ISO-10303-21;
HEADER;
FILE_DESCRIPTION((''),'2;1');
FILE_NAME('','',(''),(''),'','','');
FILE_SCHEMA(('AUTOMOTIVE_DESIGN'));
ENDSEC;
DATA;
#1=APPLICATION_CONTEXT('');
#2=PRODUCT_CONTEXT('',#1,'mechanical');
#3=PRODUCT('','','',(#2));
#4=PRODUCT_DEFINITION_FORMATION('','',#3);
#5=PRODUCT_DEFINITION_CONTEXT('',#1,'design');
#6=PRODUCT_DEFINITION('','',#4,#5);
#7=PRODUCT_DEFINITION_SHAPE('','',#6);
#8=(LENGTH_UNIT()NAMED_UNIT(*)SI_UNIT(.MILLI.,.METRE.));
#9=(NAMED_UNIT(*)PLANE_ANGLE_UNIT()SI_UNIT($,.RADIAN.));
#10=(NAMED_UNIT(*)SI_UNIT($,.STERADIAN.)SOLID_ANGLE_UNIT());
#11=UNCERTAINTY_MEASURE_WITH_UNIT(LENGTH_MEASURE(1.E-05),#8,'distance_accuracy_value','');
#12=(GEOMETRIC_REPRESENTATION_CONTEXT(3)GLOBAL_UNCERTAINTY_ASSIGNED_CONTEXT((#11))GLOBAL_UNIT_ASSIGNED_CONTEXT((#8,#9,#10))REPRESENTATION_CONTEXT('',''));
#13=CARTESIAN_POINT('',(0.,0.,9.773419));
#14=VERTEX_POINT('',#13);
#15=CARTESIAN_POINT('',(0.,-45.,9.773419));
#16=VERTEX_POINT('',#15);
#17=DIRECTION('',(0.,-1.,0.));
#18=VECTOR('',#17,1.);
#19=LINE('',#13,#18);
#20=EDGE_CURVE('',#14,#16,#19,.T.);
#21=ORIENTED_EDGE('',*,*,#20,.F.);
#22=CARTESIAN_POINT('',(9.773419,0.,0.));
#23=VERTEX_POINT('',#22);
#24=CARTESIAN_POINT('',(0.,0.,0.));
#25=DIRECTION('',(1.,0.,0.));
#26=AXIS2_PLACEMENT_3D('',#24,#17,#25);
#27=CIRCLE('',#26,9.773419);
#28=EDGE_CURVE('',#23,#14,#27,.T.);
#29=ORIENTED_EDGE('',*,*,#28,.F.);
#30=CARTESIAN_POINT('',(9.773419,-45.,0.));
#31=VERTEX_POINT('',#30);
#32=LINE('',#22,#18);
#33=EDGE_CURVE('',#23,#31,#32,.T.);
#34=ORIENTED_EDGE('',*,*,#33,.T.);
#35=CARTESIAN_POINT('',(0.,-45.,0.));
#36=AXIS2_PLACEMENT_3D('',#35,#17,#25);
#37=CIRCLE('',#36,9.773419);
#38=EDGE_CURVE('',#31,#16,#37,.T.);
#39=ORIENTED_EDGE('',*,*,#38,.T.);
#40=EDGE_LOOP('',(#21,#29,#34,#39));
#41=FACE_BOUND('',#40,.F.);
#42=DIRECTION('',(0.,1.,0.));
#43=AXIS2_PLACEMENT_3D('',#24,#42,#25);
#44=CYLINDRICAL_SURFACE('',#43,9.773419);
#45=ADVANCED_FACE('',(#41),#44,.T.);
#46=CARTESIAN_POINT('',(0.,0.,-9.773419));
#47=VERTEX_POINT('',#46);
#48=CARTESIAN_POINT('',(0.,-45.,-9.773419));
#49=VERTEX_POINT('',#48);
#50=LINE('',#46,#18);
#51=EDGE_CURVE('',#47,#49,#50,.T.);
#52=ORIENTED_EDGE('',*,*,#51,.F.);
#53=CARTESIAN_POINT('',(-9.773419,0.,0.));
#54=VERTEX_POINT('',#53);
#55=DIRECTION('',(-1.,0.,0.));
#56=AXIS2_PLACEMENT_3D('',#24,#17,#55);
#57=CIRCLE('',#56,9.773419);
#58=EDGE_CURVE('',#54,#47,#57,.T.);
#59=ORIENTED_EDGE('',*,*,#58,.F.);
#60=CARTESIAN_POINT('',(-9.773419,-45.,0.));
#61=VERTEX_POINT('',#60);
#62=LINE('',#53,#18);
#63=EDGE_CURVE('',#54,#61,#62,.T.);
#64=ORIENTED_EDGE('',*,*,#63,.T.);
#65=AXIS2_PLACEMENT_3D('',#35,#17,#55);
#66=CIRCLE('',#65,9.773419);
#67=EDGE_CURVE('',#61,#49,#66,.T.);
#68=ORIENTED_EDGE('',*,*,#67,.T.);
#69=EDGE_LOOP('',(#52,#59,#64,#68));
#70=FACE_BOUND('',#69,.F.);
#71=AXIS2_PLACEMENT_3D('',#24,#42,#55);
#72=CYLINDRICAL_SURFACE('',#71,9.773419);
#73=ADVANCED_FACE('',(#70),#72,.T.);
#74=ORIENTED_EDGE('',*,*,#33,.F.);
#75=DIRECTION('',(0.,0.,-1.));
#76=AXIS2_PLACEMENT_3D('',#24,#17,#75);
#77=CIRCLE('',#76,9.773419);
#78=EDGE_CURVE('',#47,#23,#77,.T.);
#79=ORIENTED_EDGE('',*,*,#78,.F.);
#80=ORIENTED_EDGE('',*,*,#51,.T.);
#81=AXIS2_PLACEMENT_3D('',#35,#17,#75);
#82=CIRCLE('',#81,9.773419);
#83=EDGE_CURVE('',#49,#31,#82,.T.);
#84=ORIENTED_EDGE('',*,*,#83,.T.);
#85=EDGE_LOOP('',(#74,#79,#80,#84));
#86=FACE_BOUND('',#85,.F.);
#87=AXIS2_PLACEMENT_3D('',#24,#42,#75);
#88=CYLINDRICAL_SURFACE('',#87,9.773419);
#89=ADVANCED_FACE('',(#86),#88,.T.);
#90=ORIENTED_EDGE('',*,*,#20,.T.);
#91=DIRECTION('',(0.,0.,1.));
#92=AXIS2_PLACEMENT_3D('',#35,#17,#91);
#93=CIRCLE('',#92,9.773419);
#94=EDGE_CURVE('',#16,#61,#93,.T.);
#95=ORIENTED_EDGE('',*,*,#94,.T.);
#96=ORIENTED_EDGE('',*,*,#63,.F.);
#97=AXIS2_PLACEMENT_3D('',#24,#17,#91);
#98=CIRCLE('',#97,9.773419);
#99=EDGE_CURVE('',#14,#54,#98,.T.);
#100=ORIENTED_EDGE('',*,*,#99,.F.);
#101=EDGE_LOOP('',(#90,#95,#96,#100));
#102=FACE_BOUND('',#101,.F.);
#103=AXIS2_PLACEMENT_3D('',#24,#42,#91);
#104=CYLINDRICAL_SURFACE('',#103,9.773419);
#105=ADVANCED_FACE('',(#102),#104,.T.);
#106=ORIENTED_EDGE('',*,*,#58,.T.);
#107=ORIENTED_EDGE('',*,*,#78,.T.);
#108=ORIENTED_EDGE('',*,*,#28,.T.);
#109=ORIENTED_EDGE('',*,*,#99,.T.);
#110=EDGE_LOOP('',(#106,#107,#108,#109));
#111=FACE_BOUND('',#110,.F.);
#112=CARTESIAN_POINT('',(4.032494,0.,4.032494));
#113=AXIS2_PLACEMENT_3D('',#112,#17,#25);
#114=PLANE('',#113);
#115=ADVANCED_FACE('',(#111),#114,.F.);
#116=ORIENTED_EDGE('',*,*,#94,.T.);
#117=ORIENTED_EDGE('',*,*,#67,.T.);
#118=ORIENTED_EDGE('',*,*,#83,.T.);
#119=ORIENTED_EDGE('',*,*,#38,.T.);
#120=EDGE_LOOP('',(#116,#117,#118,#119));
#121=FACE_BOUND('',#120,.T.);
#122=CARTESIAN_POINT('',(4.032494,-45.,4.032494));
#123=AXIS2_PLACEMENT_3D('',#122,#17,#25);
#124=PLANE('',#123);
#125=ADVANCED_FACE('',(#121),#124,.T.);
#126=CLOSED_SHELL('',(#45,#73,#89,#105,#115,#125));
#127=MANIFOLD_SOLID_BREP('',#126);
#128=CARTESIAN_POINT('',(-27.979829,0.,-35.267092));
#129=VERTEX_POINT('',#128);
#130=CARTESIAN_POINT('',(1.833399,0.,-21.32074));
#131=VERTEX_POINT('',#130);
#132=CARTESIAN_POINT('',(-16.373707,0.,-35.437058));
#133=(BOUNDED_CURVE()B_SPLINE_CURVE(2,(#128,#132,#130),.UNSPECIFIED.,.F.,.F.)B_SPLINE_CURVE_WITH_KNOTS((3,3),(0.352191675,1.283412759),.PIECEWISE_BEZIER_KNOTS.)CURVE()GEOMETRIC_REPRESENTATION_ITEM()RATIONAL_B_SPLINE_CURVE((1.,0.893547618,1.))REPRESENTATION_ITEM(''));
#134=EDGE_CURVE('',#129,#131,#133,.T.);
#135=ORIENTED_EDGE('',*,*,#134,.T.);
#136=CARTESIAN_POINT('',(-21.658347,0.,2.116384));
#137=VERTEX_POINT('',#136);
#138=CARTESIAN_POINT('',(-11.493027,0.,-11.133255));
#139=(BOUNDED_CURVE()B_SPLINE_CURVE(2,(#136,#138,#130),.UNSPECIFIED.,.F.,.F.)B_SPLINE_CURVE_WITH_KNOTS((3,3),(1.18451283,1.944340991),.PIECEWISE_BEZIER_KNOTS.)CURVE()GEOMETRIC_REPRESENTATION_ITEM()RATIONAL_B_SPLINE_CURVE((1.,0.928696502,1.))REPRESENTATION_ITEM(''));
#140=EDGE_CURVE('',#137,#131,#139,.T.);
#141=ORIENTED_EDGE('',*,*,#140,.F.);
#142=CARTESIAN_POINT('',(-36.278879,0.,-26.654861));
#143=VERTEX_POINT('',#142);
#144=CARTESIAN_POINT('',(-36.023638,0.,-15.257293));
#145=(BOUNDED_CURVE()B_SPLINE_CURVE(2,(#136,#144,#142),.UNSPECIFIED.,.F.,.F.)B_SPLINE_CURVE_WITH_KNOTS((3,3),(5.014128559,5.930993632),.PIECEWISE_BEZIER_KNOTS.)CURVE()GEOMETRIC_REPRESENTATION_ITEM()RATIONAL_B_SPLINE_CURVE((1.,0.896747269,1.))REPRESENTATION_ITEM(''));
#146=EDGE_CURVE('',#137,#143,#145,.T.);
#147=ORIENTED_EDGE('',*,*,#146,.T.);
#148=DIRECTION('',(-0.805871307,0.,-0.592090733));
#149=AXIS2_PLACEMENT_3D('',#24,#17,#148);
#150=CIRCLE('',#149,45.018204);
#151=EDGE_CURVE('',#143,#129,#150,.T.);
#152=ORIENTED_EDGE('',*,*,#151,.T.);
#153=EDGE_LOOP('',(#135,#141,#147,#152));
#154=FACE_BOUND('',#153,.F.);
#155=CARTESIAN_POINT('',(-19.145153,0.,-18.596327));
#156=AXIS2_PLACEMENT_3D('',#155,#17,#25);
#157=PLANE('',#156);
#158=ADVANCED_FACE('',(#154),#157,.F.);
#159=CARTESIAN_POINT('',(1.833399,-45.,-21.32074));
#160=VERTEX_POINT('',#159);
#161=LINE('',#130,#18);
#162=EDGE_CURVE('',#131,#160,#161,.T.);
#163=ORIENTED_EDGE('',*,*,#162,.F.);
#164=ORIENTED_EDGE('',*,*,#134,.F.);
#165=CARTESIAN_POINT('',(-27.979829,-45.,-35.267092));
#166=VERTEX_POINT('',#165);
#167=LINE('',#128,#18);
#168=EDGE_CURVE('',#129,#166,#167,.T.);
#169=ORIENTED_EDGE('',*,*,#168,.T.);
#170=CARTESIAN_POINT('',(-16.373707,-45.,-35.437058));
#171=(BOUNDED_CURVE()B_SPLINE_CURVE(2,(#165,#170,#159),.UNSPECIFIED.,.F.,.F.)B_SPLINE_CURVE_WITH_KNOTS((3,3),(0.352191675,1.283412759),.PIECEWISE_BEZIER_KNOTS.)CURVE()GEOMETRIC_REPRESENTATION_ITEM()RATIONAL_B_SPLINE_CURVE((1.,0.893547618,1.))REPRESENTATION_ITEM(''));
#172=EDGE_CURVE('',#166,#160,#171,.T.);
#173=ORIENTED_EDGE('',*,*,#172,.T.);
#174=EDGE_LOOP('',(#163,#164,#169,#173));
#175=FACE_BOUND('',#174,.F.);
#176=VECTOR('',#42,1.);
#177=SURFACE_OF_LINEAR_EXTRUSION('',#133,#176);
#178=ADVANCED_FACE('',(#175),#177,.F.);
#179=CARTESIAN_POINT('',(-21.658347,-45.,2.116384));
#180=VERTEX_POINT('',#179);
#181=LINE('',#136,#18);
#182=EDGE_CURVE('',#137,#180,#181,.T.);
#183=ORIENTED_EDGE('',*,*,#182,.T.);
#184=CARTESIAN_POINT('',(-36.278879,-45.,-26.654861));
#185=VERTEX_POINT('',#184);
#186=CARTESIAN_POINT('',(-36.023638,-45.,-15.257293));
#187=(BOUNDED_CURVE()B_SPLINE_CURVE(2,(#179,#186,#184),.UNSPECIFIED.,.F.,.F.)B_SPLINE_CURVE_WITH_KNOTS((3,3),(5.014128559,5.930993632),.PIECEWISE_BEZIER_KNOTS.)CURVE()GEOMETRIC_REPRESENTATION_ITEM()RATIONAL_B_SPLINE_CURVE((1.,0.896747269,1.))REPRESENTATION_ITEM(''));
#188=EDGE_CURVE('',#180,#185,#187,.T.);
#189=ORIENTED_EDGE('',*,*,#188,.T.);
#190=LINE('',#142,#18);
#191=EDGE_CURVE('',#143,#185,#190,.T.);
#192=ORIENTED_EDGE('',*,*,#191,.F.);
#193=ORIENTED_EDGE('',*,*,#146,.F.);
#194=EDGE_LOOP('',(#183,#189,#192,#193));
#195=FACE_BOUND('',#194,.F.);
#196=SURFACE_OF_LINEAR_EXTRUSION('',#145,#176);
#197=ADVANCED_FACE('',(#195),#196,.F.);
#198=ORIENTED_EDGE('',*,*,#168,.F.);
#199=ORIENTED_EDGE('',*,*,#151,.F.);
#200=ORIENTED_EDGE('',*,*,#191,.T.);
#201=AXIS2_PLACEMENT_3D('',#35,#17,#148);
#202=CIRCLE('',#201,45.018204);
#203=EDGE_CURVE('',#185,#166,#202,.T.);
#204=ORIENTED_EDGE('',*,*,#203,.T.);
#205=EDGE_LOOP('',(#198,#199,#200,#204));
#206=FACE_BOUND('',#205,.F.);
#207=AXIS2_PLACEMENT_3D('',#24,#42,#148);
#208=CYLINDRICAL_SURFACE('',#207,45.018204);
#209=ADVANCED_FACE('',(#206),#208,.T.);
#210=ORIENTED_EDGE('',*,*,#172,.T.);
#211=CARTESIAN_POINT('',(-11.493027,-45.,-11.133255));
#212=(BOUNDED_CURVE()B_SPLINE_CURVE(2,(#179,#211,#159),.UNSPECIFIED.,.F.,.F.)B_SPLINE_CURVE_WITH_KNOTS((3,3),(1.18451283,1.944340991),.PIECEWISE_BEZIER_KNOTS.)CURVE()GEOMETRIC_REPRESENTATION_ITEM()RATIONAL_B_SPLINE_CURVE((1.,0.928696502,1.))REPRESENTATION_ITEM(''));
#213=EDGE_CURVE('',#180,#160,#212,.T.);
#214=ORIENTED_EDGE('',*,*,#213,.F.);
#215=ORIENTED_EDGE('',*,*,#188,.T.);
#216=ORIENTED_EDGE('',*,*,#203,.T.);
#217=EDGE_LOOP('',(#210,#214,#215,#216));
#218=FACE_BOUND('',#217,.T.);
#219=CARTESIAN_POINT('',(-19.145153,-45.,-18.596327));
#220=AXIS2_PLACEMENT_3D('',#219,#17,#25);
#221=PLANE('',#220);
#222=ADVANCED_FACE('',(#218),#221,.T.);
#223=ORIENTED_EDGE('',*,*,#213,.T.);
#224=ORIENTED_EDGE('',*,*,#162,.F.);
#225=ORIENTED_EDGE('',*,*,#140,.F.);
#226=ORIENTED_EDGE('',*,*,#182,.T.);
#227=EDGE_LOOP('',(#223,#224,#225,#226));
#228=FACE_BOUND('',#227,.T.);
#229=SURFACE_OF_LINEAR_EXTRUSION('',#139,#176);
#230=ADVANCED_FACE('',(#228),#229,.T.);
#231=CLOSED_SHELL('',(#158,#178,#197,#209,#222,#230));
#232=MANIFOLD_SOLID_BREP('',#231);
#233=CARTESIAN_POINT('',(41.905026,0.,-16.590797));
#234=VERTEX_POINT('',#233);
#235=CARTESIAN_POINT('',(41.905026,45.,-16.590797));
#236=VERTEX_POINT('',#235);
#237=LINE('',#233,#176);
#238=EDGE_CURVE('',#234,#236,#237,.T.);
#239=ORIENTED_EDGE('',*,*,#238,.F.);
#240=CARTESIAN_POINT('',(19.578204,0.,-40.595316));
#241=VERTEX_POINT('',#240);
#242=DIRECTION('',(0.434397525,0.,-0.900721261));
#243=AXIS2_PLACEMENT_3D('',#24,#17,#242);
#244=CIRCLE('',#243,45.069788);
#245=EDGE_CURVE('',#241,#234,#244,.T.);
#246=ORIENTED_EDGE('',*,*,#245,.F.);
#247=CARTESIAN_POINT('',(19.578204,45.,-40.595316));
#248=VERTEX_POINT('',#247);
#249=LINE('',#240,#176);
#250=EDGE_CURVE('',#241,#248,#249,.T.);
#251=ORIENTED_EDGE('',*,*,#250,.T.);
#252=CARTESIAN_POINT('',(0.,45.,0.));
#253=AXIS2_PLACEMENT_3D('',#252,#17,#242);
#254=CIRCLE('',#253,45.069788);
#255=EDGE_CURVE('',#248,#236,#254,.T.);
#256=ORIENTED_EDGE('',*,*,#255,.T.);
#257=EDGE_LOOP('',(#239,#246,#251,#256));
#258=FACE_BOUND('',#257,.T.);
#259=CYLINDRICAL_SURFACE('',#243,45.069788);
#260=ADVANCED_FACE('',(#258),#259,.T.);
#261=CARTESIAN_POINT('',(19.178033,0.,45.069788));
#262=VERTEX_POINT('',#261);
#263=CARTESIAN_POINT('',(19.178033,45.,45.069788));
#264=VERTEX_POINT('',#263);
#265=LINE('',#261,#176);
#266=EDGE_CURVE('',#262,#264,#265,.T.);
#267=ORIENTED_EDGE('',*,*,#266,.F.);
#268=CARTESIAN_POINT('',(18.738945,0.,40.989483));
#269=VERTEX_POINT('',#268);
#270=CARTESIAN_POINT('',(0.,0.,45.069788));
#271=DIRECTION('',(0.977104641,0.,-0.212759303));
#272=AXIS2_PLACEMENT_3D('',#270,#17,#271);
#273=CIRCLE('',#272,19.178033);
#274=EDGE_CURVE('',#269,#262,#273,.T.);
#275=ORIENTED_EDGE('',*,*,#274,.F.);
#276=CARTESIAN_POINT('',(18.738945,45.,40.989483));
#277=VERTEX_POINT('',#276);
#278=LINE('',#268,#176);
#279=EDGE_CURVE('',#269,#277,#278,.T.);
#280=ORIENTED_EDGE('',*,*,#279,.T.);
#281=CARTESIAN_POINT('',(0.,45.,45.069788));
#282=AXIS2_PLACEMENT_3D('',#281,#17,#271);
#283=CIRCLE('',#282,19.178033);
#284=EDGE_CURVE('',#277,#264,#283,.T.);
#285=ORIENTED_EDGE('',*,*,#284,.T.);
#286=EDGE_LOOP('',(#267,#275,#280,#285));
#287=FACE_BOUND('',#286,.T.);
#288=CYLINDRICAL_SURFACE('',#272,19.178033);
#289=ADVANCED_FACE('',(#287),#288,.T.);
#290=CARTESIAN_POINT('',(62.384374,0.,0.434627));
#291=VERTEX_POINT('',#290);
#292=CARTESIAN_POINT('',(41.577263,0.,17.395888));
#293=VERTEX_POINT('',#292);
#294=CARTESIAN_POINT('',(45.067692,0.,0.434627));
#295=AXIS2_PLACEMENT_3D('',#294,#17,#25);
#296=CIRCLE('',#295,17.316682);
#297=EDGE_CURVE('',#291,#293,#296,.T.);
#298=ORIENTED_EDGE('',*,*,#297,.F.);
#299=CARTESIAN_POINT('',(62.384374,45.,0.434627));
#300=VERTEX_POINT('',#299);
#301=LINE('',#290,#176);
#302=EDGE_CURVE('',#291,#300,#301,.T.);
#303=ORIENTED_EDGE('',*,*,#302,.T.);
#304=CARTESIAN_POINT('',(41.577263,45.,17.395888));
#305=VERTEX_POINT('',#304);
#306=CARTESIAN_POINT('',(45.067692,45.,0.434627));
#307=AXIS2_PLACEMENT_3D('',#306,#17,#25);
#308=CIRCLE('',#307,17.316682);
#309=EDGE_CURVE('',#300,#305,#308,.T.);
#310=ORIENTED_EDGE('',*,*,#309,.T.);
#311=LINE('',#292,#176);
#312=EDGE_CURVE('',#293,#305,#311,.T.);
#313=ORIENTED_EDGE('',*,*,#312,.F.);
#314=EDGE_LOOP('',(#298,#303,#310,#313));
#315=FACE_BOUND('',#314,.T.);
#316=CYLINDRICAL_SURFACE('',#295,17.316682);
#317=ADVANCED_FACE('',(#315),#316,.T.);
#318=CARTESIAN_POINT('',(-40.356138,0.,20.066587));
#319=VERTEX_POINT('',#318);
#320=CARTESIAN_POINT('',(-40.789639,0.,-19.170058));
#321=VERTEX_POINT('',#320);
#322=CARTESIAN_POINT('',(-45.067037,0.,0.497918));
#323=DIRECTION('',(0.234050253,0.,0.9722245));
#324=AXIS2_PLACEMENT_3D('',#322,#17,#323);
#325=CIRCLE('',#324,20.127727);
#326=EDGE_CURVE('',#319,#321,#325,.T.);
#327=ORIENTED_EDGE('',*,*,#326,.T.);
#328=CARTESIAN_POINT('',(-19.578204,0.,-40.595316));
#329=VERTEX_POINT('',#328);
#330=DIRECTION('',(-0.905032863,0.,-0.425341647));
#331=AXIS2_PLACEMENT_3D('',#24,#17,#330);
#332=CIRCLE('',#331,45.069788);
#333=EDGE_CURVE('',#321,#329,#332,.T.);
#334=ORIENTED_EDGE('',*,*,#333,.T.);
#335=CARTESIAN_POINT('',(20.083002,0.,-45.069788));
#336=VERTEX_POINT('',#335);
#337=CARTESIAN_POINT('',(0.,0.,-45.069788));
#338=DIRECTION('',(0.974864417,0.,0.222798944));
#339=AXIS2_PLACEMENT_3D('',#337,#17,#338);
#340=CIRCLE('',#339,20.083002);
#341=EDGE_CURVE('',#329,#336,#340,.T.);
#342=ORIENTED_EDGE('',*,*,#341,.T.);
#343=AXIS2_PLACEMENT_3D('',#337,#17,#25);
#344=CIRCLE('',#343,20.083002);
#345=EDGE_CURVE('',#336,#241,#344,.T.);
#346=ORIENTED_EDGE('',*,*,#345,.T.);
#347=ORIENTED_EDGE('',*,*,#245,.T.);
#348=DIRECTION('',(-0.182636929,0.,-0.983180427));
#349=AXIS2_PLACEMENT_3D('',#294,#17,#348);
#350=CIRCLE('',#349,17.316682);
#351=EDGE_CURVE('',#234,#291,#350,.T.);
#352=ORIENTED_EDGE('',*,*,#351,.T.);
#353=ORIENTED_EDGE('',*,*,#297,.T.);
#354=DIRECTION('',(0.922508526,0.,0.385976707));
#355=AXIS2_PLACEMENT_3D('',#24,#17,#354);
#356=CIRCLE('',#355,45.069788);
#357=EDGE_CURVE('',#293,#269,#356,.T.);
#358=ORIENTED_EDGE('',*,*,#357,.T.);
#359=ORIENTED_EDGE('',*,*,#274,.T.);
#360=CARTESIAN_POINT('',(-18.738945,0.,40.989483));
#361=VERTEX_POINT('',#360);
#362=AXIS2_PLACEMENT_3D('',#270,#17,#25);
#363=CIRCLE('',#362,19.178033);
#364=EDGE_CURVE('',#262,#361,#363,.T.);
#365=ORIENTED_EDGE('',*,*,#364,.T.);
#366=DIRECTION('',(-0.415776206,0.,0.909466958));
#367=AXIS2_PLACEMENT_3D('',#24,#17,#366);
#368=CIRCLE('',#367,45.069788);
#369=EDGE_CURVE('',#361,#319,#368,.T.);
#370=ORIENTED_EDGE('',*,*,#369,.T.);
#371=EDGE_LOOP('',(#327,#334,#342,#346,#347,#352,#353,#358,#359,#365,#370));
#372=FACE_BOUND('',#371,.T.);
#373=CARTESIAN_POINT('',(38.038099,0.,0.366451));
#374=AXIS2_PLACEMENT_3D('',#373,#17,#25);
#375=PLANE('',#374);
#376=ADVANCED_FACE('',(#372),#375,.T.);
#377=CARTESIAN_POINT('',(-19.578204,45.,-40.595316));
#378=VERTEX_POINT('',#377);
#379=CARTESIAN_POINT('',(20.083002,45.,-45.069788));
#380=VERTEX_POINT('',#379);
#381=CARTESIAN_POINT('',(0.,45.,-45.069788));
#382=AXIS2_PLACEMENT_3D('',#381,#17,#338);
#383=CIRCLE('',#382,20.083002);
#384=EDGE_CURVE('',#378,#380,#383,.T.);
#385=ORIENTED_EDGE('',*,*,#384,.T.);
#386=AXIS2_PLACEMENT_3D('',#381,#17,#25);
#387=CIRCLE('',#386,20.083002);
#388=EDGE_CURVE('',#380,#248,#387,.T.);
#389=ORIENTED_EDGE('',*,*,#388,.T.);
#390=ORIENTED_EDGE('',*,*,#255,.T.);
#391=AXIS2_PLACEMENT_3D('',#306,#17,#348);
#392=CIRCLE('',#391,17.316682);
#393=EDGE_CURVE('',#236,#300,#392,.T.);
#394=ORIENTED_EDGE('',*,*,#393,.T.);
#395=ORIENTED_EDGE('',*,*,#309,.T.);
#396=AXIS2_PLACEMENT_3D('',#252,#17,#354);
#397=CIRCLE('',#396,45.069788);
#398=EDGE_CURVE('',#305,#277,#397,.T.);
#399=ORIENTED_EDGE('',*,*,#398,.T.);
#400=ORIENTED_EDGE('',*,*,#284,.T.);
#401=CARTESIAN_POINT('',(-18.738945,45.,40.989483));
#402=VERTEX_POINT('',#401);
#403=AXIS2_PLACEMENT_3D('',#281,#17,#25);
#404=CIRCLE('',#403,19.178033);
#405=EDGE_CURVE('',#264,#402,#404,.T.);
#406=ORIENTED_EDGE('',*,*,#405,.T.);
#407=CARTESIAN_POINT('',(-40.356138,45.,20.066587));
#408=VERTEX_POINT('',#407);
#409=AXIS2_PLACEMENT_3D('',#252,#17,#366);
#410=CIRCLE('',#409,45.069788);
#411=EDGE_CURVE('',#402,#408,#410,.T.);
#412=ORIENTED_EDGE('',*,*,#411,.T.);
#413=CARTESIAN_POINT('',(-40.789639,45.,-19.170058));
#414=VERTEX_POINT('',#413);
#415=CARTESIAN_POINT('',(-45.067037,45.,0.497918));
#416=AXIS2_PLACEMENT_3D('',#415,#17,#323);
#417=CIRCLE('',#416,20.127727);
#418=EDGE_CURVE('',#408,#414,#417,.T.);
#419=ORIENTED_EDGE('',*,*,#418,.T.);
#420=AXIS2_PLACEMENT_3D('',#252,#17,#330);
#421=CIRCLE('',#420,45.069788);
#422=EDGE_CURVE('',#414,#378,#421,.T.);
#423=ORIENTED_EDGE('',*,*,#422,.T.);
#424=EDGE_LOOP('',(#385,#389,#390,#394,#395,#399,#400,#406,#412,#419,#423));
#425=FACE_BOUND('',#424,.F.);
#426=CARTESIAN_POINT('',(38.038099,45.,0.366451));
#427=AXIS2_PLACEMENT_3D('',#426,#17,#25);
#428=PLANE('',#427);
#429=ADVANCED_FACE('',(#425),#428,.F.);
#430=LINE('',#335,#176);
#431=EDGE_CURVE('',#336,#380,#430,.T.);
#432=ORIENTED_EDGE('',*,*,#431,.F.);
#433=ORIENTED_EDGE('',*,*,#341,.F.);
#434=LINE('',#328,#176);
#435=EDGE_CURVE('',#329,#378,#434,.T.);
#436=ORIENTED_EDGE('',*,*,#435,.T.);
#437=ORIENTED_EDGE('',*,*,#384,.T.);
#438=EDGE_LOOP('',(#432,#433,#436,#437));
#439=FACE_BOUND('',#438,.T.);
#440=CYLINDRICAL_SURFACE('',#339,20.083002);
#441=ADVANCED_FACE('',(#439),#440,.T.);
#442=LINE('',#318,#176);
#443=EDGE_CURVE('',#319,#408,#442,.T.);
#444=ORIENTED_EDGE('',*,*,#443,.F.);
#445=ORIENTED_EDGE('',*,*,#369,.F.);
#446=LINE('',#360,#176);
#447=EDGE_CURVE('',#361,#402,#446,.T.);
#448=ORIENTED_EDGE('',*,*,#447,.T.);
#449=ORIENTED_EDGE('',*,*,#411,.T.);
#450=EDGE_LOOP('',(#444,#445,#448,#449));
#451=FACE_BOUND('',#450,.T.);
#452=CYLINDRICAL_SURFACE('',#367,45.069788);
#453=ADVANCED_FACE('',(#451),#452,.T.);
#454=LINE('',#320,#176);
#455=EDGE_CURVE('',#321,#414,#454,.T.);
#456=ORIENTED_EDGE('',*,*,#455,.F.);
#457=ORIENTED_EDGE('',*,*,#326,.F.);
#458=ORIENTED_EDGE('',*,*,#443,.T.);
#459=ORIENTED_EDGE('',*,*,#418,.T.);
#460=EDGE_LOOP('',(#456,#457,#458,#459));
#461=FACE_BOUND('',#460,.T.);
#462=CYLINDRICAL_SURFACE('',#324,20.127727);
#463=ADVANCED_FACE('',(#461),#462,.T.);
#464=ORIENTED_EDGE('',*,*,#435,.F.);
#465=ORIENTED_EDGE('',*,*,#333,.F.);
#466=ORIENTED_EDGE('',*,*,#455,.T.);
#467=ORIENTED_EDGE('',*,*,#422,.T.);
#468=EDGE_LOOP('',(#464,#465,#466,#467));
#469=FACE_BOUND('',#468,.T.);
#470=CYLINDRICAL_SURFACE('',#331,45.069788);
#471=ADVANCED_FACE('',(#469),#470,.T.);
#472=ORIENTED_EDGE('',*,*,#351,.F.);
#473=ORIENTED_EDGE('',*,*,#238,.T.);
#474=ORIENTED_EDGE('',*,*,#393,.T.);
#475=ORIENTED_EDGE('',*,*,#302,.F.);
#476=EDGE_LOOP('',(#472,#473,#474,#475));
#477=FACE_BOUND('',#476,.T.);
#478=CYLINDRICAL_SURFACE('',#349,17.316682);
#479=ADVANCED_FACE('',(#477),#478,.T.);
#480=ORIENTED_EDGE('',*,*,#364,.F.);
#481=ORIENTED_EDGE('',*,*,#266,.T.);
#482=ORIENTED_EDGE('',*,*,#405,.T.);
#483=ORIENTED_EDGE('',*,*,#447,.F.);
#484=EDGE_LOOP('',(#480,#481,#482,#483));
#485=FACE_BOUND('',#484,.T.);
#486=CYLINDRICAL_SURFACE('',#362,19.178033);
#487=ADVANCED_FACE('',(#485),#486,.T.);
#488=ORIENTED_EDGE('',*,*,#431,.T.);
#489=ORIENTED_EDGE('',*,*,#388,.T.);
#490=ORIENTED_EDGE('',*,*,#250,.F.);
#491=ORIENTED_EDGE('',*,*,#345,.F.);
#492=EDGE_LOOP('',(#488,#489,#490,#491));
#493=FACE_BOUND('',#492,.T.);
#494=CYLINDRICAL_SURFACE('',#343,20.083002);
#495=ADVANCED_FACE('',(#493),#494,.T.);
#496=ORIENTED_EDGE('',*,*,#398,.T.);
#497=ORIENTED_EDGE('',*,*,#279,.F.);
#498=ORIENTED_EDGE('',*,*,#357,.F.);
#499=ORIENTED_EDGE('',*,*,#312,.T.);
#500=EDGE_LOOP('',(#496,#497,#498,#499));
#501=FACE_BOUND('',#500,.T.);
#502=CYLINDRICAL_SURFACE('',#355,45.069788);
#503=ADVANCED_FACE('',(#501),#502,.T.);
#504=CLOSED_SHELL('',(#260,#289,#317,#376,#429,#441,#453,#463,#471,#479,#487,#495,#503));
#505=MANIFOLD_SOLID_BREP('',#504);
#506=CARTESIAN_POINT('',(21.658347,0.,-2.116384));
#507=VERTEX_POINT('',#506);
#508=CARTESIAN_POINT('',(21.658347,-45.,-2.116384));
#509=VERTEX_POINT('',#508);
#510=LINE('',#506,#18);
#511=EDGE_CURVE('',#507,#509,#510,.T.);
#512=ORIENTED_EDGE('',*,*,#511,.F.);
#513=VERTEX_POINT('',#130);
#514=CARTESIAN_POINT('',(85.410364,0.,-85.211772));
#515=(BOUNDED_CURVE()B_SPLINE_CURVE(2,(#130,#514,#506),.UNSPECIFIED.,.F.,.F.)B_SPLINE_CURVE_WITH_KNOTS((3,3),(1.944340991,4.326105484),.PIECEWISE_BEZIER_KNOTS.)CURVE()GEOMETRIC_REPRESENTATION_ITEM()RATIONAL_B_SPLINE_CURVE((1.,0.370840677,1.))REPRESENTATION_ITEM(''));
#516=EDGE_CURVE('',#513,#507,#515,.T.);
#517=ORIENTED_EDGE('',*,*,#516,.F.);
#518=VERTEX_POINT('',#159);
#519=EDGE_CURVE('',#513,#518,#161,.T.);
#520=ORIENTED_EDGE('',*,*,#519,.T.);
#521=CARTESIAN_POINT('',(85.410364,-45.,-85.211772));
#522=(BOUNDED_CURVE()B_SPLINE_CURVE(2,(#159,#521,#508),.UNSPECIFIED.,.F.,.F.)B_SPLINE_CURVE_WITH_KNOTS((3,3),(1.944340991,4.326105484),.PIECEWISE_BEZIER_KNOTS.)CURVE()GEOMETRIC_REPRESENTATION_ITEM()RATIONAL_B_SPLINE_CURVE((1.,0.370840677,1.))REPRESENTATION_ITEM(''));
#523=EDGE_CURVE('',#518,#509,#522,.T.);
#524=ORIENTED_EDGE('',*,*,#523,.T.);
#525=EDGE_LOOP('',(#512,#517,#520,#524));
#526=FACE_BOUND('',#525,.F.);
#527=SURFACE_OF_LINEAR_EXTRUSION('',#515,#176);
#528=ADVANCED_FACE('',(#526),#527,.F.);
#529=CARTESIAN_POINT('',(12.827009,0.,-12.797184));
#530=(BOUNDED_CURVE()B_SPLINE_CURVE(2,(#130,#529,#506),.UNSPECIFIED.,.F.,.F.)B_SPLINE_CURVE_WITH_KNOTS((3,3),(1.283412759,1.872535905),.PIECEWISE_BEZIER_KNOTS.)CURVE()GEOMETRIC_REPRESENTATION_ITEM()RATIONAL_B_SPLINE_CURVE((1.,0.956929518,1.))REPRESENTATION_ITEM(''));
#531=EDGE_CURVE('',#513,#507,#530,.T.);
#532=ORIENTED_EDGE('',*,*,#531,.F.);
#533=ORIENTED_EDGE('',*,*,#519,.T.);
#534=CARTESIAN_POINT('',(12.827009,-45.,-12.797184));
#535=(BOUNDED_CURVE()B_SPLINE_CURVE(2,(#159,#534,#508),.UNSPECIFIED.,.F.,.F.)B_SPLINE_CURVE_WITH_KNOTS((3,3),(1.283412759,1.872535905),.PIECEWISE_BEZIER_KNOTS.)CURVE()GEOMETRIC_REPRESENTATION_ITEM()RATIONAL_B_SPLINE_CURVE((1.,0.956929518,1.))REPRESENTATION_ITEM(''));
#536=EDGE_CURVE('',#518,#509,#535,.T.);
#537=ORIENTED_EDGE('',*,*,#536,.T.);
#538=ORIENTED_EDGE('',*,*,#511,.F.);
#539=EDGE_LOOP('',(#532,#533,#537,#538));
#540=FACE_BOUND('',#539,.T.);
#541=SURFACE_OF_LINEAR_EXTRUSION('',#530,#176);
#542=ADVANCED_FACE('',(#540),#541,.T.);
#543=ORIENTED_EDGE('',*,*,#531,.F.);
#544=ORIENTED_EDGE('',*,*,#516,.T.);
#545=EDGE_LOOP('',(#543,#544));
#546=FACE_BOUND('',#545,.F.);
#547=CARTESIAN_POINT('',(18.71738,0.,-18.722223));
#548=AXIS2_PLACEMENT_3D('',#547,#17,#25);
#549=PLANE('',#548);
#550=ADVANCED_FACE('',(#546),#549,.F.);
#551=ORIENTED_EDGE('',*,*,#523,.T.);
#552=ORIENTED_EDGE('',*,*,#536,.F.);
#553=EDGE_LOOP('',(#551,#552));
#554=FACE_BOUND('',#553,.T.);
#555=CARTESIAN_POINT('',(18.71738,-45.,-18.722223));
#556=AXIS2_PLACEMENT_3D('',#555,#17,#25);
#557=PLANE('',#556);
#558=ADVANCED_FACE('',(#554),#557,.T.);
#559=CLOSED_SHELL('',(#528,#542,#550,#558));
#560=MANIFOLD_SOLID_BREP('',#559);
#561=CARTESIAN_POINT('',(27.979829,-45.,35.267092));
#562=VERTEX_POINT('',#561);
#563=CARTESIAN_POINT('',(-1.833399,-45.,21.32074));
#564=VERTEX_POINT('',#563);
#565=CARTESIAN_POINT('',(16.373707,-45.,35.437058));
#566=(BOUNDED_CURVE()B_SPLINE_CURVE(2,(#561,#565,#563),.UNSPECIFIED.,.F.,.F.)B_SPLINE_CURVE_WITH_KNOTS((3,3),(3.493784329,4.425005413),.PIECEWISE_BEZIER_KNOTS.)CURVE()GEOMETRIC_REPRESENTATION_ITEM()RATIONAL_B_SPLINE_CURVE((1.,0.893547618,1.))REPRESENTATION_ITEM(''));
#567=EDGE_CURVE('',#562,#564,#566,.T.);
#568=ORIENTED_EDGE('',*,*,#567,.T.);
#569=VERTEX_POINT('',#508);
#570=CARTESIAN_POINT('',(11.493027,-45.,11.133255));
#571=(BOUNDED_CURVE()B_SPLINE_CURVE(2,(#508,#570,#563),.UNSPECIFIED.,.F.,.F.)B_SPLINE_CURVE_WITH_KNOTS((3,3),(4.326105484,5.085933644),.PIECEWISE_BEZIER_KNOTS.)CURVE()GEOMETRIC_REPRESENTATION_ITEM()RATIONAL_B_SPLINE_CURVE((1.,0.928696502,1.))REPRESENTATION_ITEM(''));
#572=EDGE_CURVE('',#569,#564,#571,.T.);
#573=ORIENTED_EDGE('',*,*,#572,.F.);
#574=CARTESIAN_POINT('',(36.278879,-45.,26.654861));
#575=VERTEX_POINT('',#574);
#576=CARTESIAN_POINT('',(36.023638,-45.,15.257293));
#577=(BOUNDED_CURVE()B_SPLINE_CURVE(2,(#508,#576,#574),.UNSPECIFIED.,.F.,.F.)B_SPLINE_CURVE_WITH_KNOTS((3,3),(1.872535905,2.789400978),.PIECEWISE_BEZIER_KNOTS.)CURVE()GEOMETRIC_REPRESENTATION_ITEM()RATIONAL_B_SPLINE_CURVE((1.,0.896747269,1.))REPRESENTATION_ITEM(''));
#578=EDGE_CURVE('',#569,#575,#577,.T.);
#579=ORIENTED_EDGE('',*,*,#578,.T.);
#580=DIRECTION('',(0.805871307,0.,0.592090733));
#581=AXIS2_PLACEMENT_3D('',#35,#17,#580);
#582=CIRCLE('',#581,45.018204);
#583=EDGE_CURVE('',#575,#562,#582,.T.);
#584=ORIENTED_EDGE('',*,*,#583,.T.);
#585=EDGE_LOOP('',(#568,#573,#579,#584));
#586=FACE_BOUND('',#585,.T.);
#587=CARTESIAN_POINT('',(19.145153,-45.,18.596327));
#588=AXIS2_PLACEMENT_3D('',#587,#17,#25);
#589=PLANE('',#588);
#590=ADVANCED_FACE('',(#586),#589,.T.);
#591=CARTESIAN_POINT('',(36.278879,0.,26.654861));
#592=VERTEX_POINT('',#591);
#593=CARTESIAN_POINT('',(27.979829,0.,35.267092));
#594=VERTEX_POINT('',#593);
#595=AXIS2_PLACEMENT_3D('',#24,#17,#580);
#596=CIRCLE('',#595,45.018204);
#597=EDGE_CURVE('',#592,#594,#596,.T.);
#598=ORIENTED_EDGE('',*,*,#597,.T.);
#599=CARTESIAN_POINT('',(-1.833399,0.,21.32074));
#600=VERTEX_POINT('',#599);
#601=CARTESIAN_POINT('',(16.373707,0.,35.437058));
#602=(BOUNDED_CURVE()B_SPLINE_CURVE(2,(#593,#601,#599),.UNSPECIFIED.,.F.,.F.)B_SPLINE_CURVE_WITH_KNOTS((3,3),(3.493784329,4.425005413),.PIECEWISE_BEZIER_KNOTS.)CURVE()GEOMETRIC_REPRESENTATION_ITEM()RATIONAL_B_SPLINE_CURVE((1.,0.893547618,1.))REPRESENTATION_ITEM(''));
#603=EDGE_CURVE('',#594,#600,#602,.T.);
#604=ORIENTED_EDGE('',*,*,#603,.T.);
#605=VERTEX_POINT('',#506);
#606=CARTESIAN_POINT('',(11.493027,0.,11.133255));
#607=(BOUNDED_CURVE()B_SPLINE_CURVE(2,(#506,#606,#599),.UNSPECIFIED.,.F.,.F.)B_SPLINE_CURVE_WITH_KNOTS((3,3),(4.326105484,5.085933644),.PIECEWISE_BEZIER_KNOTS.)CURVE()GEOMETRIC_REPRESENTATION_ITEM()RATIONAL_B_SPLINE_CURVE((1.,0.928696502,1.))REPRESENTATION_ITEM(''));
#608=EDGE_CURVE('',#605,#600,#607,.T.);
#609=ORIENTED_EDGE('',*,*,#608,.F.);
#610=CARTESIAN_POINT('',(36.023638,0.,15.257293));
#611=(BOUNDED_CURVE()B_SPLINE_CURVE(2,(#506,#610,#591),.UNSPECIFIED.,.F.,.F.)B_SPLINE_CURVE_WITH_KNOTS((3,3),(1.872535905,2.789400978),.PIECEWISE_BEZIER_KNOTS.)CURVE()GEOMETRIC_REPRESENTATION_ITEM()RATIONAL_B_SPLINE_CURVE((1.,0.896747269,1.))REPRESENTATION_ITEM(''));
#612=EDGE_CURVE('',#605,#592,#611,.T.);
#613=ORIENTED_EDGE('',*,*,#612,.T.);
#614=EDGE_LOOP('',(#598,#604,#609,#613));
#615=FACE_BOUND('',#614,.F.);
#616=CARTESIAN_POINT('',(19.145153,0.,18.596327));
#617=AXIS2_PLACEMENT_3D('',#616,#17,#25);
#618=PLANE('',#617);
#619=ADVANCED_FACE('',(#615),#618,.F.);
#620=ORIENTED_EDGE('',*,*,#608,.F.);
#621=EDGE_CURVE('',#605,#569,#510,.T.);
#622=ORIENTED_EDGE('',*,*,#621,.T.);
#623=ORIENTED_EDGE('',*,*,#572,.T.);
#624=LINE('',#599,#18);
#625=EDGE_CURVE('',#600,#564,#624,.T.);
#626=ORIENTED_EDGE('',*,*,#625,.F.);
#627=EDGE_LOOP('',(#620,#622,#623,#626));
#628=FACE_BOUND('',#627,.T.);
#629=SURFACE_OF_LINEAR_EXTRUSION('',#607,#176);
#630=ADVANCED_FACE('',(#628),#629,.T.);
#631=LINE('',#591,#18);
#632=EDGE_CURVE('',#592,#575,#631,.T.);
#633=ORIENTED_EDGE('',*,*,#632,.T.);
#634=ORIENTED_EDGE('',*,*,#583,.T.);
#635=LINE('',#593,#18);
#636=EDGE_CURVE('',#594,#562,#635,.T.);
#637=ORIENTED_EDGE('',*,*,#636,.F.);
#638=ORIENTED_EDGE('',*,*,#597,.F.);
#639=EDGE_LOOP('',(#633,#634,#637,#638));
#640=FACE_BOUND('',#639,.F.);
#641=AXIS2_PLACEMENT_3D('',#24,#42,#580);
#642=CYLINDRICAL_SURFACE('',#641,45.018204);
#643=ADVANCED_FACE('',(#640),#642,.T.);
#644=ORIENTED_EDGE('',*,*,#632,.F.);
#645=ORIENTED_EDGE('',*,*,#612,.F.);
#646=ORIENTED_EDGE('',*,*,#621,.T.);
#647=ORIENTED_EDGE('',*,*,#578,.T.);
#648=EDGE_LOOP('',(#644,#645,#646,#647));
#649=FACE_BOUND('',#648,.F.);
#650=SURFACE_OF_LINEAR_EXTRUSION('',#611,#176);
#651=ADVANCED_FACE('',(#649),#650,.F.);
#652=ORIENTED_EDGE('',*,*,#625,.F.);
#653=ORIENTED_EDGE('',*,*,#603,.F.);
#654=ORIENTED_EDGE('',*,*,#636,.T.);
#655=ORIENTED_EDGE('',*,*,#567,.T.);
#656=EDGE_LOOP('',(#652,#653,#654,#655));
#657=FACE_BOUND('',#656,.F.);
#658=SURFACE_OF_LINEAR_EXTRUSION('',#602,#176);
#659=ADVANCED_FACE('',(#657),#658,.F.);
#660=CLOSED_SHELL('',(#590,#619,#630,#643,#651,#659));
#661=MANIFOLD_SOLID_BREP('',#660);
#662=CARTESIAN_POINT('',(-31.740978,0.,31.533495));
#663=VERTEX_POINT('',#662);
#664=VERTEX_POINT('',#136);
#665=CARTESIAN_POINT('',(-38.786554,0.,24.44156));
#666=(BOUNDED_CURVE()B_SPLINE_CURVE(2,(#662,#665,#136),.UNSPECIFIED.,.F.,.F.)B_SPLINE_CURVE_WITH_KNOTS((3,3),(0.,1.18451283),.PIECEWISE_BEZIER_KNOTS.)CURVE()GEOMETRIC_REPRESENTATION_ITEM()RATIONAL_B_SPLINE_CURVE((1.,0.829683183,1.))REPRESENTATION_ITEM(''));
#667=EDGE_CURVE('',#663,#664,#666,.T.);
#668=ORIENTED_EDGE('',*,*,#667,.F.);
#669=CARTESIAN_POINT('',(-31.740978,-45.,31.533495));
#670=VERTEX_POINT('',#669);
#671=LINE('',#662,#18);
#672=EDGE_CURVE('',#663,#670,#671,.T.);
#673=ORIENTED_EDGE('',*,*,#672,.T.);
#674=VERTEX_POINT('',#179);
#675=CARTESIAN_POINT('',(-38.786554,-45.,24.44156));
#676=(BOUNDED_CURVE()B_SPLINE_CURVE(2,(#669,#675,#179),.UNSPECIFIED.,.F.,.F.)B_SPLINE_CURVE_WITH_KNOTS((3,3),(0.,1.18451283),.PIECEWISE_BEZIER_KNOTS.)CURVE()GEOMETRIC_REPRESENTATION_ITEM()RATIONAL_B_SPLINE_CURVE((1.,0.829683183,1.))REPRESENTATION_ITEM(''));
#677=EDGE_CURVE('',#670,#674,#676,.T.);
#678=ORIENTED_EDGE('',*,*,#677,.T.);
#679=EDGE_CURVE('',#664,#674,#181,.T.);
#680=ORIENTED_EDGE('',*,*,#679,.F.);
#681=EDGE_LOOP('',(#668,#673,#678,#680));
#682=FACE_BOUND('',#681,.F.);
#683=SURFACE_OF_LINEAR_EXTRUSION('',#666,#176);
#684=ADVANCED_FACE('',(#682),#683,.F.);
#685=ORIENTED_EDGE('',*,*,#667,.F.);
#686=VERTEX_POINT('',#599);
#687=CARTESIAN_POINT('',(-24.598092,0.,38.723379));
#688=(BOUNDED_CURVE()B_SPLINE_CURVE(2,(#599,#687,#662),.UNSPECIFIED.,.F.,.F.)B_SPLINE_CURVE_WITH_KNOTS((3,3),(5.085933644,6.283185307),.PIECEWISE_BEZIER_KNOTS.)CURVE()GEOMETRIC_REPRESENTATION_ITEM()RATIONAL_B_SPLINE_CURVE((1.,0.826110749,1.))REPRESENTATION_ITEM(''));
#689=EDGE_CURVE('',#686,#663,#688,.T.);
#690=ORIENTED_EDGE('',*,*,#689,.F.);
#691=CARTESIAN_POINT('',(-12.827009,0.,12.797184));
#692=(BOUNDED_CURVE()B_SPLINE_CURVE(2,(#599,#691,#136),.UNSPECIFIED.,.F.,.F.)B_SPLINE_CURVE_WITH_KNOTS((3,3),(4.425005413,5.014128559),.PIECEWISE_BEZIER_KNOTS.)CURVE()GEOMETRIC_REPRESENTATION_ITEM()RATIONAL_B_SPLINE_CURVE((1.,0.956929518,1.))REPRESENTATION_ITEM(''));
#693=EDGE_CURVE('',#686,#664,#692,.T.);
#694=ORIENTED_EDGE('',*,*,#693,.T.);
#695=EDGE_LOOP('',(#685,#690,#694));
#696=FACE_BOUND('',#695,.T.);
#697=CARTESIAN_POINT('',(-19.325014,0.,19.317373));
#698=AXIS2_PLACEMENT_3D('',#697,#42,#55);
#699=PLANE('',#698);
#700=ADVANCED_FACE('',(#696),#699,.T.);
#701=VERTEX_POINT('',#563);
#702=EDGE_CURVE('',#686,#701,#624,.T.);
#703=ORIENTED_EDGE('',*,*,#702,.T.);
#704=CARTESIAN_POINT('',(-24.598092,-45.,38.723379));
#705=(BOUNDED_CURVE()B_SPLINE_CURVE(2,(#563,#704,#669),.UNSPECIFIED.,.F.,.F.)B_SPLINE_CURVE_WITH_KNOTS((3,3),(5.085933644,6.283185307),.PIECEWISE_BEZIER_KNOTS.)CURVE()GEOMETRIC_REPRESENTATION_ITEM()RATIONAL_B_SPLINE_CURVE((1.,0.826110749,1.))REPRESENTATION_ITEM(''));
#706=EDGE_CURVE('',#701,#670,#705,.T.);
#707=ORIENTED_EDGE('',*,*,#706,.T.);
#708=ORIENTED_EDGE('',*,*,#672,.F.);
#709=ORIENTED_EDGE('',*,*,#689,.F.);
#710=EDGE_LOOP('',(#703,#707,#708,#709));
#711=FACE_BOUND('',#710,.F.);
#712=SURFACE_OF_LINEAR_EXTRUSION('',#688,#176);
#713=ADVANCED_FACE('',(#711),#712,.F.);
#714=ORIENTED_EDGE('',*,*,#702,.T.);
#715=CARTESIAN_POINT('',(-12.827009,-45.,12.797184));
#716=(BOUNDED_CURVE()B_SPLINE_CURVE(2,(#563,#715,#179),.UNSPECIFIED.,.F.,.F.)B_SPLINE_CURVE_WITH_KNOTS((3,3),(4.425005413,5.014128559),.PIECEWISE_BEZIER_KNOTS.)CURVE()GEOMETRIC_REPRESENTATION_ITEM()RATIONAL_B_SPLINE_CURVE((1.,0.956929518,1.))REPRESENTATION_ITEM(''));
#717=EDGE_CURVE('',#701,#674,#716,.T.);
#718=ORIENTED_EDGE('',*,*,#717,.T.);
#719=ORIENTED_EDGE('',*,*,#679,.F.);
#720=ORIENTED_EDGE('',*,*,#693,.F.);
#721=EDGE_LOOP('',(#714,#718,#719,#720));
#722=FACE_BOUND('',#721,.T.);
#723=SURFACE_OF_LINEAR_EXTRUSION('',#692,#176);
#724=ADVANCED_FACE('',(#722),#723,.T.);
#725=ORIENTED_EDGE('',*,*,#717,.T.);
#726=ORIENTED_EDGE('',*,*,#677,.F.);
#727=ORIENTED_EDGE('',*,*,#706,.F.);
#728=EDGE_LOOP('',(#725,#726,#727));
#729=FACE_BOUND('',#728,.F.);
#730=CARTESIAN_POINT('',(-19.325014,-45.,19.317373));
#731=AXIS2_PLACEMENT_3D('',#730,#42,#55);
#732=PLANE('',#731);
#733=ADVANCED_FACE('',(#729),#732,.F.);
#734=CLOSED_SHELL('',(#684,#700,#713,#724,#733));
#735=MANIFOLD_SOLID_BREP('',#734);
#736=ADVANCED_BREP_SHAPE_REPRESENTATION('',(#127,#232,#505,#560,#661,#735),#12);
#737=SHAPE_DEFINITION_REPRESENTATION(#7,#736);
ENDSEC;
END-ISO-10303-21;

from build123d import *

# Parameters (mm, degrees)
F2_DEPTH = 45
F4_DEPTH = 45


with BuildPart() as f2:
    # F1 (on Front) → F2 (new body)
    with BuildSketch(Plane.XZ):
        with BuildLine():
            ThreePointArc((36.2788785414, 26.6548611558), (32.4166318197, 31.2378077483), (27.9798294247, 35.2670922649))
            add(Edge.make_bspline(
                [(27.9798294247, 35.2670922649), (16.373706559, 35.4370582191), (-1.8333992833, 21.3207404168)],
                knots=[3.493784329, 3.493784329, 3.493784329, 4.4250054126, 4.4250054126, 4.4250054126], degree=2, weights=[1, 0.8935476182, 1]))
            add(Edge.make_bspline(
                [(21.6583468151, -2.1163838559), (11.4930271298, 11.1332547343), (-1.8333992833, 21.3207404168)],
                knots=[4.3261054837, 4.3261054837, 4.3261054837, 5.0859336443, 5.0859336443, 5.0859336443], degree=2, weights=[1, 0.9286965015, 1]))
            add(Edge.make_bspline(
                [(21.6583468151, -2.1163838559), (36.023638163, 15.2572930769), (36.2788785414, 26.6548611558)],
                knots=[1.8725359052, 1.8725359052, 1.8725359052, 2.7894009782, 2.7894009782, 2.7894009782], degree=2, weights=[1, 0.8967472689, 1]))
        make_face()
    extrude(amount=F2_DEPTH)


with BuildPart() as f2b:
    # F1 (on Front) → F2, piece 2 (new body)
    with BuildSketch(Plane.XZ):
        with BuildLine():
            add(Edge.make_bspline(
                [(-21.6583468151, 2.1163838559), (-36.023638163, -15.2572930769), (-36.2788785414, -26.6548611558)],
                knots=[5.0141285588, 5.0141285588, 5.0141285588, 5.9309936318, 5.9309936318, 5.9309936318], degree=2, weights=[1, 0.8967472689, 1]))
            ThreePointArc((-36.2788785414, -26.6548611558), (-32.4166318197, -31.2378077483), (-27.9798294247, -35.2670922649))
            add(Edge.make_bspline(
                [(-27.9798294247, -35.2670922649), (-16.373706559, -35.4370582191), (1.8333992833, -21.3207404168)],
                knots=[0.3521916754, 0.3521916754, 0.3521916754, 1.283412759, 1.283412759, 1.283412759], degree=2, weights=[1, 0.8935476182, 1]))
            add(Edge.make_bspline(
                [(-21.6583468151, 2.1163838559), (-11.4930271298, -11.1332547343), (1.8333992833, -21.3207404168)],
                knots=[1.1845128301, 1.1845128301, 1.1845128301, 1.9443409907, 1.9443409907, 1.9443409907], degree=2, weights=[1, 0.9286965015, 1]))
        make_face()
    extrude(amount=F2_DEPTH)


with BuildPart() as f2c:
    # F1 (on Front) → F2, piece 3 (new body)
    with BuildSketch(Plane.XZ):
        with BuildLine():
            add(Edge.make_bspline(
                [(1.8333992833, -21.3207404168), (85.4103636735, -85.2117717946), (21.6583468151, -2.1163838559)],
                knots=[1.9443409907, 1.9443409907, 1.9443409907, 4.3261054837, 4.3261054837, 4.3261054837], degree=2, weights=[1, 0.3708406775, 1]))
            add(Edge.make_bspline(
                [(1.8333992833, -21.3207404168), (12.8270090032, -12.7971842874), (21.6583468151, -2.1163838559)],
                knots=[1.283412759, 1.283412759, 1.283412759, 1.8725359052, 1.8725359052, 1.8725359052], degree=2, weights=[1, 0.9569295185, 1]))
        make_face()
    extrude(amount=F2_DEPTH)


with BuildPart() as f2d:
    # F1 (on Front) → F2, piece 4 (new body)
    with BuildSketch(Plane.XZ):
        with BuildLine():
            add(Edge.make_bspline(
                [(-1.8333992833, 21.3207404168), (-12.8270090032, 12.7971842874), (-21.6583468151, 2.1163838559)],
                knots=[4.4250054126, 4.4250054126, 4.4250054126, 5.0141285588, 5.0141285588, 5.0141285588], degree=2, weights=[1, 0.9569295185, 1]))
            add(Edge.make_bspline(
                [(-1.8333992833, 21.3207404168), (-24.5980924206, 38.7233792199), (-31.7409783602, 31.5334945917)],
                knots=[5.0859336443, 5.0859336443, 5.0859336443, 6.2831853072, 6.2831853072, 6.2831853072], degree=2, weights=[1, 0.8261107493, 1]))
            add(Edge.make_bspline(
                [(-31.7409783602, 31.5334945917), (-38.7865541351, 24.4415604086), (-21.6583468151, 2.1163838559)],
                knots=[0, 0, 0, 1.1845128301, 1.1845128301, 1.1845128301], degree=2, weights=[1, 0.8296831834, 1]))
        make_face()
    extrude(amount=F2_DEPTH)


with BuildPart() as f2e:
    # F0 (on Front) → F2, piece 5 (new body)
    with BuildSketch(Plane.XZ):
        with BuildLine():
            Line((0, 0), (9.7734186146, 0))
            ThreePointArc((9.7734186146, 0), (6.9108505778, 6.9108505778), (0, 9.7734186146))
            Line((0, 9.7734186146), (0, 0))
        make_face()
        with BuildLine():
            ThreePointArc((0, -9.7734186146), (6.9108505778, -6.9108505778), (9.7734186146, 0))
            Line((9.7734186146, 0), (0, 0))
            Line((0, 0), (0, -9.7734186146))
        make_face()
        with BuildLine():
            Line((0, 0), (0, 9.7734186146))
            ThreePointArc((0, 9.7734186146), (-6.9108505778, 6.9108505778), (-9.7734186146, 0))
            Line((-9.7734186146, 0), (0, 0))
        make_face()
        with BuildLine():
            ThreePointArc((-9.7734186146, 0), (-6.9108505778, -6.9108505778), (0, -9.7734186146))
            Line((0, -9.7734186146), (0, 0))
            Line((0, 0), (-9.7734186146, 0))
        make_face()
    extrude(amount=F2_DEPTH)


with BuildPart() as f4:
    # F3 (on Front) → F4 (new body)
    with BuildSketch(Plane.XZ):
        with BuildLine():
            ThreePointArc((41.9050263243, -16.5907966242), (44.2715281198, -8.4449725759), (45.069787706, 0))
            ThreePointArc((45.069787706, 0), (44.188031189, 8.8715085246), (41.577263445, 17.3958882582))
            ThreePointArc((41.577263445, 17.3958882582), (27.7518148175, 0.2676346564), (41.9050263243, -16.5907966242))
        make_face()
        with BuildLine():
            ThreePointArc((-19.5782042129, -40.5953160311), (0, -45.069787706), (19.5782042129, -40.5953160311))
            ThreePointArc((19.5782042129, -40.5953160311), (0, -24.9867855158), (-19.5782042129, -40.5953160311))
        make_face()
        with BuildLine():
            ThreePointArc((-18.7389453169, 40.9894827032), (0, 45.069787706), (18.7389453169, 40.9894827032))
            ThreePointArc((18.7389453169, 40.9894827032), (19.0679453197, 43.0178564721), (19.1780332804, 45.069787706))
            ThreePointArc((19.1780332804, 45.069787706), (-2.051931234, 64.1377330257), (-18.7389453169, 40.9894827032))
        make_face()
        with BuildLine():
            ThreePointArc((-40.7896390156, -19.1700577162), (-45.0670371968, 0.497917832), (-40.3561375829, 20.0665872348))
            ThreePointArc((-40.3561375829, 20.0665872348), (-65.1935359253, 0.7202830736), (-40.7896390156, -19.1700577162))
        make_face()
        with BuildLine():
            ThreePointArc((41.577263445, 17.3958882582), (44.188031189, 8.8715085246), (45.069787706, 0))
            ThreePointArc((45.069787706, 0), (44.2715281198, -8.4449725759), (41.9050263243, -16.5907966242))
            ThreePointArc((41.9050263243, -16.5907966242), (56.1379361889, -12.8814232649), (62.3843744183, 0.4346265766))
            ThreePointArc((62.3843744183, 0.4346265766), (56.0090092679, 13.8568121744), (41.577263445, 17.3958882582))
        make_face()
        with BuildLine():
            ThreePointArc((-24.9393101178, 0.497917832), (-29.2565169794, 12.9539544337), (-40.3561375829, 20.0665872348))
            ThreePointArc((-40.3561375829, 20.0665872348), (-45.0670371968, 0.497917832), (-40.7896390156, -19.1700577162))
            ThreePointArc((-40.7896390156, -19.1700577162), (-29.3950925094, -12.1320286082), (-24.9393101178, 0.497917832))
        make_face()
        with BuildLine():
            ThreePointArc((20.0830021903, -45.069787706), (19.9564036723, -42.8183593945), (19.5782042129, -40.5953160311))
            ThreePointArc((19.5782042129, -40.5953160311), (0, -45.069787706), (-19.5782042129, -40.5953160311))
            ThreePointArc((-19.5782042129, -40.5953160311), (-2.2514283115, -65.0261913783), (20.0830021903, -45.069787706))
        make_face()
        with BuildLine():
            ThreePointArc((41.9050263243, -16.5907966242), (27.7518148175, 0.2676346564), (41.577263445, 17.3958882582))
            ThreePointArc((41.577263445, 17.3958882582), (32.3832624138, 31.3466119271), (18.7389453169, 40.9894827032))
            ThreePointArc((18.7389453169, 40.9894827032), (0, 25.8917544256), (-18.7389453169, 40.9894827032))
            ThreePointArc((-18.7389453169, 40.9894827032), (-31.344841592, 32.3849759833), (-40.3561375829, 20.0665872348))
            ThreePointArc((-40.3561375829, 20.0665872348), (-29.2565169794, 12.9539544337), (-24.9393101178, 0.497917832))
            ThreePointArc((-24.9393101178, 0.497917832), (-29.3950925094, -12.1320286082), (-40.7896390156, -19.1700577162))
            ThreePointArc((-40.7896390156, -19.1700577162), (-32.028573922, -31.7089296001), (-19.5782042129, -40.5953160311))
            ThreePointArc((-19.5782042129, -40.5953160311), (0, -24.9867855158), (19.5782042129, -40.5953160311))
            ThreePointArc((19.5782042129, -40.5953160311), (33.0015324995, -30.6950259253), (41.9050263243, -16.5907966242))
        make_face()
        with BuildLine():
            ThreePointArc((-18.7389453169, 40.9894827032), (0, 25.8917544256), (18.7389453169, 40.9894827032))
            ThreePointArc((18.7389453169, 40.9894827032), (0, 45.069787706), (-18.7389453169, 40.9894827032))
        make_face()
    extrude(amount=-F4_DEPTH)


solid = Compound([f2.part, f2b.part, f2c.part, f2d.part, f2e.part, f4.part])
